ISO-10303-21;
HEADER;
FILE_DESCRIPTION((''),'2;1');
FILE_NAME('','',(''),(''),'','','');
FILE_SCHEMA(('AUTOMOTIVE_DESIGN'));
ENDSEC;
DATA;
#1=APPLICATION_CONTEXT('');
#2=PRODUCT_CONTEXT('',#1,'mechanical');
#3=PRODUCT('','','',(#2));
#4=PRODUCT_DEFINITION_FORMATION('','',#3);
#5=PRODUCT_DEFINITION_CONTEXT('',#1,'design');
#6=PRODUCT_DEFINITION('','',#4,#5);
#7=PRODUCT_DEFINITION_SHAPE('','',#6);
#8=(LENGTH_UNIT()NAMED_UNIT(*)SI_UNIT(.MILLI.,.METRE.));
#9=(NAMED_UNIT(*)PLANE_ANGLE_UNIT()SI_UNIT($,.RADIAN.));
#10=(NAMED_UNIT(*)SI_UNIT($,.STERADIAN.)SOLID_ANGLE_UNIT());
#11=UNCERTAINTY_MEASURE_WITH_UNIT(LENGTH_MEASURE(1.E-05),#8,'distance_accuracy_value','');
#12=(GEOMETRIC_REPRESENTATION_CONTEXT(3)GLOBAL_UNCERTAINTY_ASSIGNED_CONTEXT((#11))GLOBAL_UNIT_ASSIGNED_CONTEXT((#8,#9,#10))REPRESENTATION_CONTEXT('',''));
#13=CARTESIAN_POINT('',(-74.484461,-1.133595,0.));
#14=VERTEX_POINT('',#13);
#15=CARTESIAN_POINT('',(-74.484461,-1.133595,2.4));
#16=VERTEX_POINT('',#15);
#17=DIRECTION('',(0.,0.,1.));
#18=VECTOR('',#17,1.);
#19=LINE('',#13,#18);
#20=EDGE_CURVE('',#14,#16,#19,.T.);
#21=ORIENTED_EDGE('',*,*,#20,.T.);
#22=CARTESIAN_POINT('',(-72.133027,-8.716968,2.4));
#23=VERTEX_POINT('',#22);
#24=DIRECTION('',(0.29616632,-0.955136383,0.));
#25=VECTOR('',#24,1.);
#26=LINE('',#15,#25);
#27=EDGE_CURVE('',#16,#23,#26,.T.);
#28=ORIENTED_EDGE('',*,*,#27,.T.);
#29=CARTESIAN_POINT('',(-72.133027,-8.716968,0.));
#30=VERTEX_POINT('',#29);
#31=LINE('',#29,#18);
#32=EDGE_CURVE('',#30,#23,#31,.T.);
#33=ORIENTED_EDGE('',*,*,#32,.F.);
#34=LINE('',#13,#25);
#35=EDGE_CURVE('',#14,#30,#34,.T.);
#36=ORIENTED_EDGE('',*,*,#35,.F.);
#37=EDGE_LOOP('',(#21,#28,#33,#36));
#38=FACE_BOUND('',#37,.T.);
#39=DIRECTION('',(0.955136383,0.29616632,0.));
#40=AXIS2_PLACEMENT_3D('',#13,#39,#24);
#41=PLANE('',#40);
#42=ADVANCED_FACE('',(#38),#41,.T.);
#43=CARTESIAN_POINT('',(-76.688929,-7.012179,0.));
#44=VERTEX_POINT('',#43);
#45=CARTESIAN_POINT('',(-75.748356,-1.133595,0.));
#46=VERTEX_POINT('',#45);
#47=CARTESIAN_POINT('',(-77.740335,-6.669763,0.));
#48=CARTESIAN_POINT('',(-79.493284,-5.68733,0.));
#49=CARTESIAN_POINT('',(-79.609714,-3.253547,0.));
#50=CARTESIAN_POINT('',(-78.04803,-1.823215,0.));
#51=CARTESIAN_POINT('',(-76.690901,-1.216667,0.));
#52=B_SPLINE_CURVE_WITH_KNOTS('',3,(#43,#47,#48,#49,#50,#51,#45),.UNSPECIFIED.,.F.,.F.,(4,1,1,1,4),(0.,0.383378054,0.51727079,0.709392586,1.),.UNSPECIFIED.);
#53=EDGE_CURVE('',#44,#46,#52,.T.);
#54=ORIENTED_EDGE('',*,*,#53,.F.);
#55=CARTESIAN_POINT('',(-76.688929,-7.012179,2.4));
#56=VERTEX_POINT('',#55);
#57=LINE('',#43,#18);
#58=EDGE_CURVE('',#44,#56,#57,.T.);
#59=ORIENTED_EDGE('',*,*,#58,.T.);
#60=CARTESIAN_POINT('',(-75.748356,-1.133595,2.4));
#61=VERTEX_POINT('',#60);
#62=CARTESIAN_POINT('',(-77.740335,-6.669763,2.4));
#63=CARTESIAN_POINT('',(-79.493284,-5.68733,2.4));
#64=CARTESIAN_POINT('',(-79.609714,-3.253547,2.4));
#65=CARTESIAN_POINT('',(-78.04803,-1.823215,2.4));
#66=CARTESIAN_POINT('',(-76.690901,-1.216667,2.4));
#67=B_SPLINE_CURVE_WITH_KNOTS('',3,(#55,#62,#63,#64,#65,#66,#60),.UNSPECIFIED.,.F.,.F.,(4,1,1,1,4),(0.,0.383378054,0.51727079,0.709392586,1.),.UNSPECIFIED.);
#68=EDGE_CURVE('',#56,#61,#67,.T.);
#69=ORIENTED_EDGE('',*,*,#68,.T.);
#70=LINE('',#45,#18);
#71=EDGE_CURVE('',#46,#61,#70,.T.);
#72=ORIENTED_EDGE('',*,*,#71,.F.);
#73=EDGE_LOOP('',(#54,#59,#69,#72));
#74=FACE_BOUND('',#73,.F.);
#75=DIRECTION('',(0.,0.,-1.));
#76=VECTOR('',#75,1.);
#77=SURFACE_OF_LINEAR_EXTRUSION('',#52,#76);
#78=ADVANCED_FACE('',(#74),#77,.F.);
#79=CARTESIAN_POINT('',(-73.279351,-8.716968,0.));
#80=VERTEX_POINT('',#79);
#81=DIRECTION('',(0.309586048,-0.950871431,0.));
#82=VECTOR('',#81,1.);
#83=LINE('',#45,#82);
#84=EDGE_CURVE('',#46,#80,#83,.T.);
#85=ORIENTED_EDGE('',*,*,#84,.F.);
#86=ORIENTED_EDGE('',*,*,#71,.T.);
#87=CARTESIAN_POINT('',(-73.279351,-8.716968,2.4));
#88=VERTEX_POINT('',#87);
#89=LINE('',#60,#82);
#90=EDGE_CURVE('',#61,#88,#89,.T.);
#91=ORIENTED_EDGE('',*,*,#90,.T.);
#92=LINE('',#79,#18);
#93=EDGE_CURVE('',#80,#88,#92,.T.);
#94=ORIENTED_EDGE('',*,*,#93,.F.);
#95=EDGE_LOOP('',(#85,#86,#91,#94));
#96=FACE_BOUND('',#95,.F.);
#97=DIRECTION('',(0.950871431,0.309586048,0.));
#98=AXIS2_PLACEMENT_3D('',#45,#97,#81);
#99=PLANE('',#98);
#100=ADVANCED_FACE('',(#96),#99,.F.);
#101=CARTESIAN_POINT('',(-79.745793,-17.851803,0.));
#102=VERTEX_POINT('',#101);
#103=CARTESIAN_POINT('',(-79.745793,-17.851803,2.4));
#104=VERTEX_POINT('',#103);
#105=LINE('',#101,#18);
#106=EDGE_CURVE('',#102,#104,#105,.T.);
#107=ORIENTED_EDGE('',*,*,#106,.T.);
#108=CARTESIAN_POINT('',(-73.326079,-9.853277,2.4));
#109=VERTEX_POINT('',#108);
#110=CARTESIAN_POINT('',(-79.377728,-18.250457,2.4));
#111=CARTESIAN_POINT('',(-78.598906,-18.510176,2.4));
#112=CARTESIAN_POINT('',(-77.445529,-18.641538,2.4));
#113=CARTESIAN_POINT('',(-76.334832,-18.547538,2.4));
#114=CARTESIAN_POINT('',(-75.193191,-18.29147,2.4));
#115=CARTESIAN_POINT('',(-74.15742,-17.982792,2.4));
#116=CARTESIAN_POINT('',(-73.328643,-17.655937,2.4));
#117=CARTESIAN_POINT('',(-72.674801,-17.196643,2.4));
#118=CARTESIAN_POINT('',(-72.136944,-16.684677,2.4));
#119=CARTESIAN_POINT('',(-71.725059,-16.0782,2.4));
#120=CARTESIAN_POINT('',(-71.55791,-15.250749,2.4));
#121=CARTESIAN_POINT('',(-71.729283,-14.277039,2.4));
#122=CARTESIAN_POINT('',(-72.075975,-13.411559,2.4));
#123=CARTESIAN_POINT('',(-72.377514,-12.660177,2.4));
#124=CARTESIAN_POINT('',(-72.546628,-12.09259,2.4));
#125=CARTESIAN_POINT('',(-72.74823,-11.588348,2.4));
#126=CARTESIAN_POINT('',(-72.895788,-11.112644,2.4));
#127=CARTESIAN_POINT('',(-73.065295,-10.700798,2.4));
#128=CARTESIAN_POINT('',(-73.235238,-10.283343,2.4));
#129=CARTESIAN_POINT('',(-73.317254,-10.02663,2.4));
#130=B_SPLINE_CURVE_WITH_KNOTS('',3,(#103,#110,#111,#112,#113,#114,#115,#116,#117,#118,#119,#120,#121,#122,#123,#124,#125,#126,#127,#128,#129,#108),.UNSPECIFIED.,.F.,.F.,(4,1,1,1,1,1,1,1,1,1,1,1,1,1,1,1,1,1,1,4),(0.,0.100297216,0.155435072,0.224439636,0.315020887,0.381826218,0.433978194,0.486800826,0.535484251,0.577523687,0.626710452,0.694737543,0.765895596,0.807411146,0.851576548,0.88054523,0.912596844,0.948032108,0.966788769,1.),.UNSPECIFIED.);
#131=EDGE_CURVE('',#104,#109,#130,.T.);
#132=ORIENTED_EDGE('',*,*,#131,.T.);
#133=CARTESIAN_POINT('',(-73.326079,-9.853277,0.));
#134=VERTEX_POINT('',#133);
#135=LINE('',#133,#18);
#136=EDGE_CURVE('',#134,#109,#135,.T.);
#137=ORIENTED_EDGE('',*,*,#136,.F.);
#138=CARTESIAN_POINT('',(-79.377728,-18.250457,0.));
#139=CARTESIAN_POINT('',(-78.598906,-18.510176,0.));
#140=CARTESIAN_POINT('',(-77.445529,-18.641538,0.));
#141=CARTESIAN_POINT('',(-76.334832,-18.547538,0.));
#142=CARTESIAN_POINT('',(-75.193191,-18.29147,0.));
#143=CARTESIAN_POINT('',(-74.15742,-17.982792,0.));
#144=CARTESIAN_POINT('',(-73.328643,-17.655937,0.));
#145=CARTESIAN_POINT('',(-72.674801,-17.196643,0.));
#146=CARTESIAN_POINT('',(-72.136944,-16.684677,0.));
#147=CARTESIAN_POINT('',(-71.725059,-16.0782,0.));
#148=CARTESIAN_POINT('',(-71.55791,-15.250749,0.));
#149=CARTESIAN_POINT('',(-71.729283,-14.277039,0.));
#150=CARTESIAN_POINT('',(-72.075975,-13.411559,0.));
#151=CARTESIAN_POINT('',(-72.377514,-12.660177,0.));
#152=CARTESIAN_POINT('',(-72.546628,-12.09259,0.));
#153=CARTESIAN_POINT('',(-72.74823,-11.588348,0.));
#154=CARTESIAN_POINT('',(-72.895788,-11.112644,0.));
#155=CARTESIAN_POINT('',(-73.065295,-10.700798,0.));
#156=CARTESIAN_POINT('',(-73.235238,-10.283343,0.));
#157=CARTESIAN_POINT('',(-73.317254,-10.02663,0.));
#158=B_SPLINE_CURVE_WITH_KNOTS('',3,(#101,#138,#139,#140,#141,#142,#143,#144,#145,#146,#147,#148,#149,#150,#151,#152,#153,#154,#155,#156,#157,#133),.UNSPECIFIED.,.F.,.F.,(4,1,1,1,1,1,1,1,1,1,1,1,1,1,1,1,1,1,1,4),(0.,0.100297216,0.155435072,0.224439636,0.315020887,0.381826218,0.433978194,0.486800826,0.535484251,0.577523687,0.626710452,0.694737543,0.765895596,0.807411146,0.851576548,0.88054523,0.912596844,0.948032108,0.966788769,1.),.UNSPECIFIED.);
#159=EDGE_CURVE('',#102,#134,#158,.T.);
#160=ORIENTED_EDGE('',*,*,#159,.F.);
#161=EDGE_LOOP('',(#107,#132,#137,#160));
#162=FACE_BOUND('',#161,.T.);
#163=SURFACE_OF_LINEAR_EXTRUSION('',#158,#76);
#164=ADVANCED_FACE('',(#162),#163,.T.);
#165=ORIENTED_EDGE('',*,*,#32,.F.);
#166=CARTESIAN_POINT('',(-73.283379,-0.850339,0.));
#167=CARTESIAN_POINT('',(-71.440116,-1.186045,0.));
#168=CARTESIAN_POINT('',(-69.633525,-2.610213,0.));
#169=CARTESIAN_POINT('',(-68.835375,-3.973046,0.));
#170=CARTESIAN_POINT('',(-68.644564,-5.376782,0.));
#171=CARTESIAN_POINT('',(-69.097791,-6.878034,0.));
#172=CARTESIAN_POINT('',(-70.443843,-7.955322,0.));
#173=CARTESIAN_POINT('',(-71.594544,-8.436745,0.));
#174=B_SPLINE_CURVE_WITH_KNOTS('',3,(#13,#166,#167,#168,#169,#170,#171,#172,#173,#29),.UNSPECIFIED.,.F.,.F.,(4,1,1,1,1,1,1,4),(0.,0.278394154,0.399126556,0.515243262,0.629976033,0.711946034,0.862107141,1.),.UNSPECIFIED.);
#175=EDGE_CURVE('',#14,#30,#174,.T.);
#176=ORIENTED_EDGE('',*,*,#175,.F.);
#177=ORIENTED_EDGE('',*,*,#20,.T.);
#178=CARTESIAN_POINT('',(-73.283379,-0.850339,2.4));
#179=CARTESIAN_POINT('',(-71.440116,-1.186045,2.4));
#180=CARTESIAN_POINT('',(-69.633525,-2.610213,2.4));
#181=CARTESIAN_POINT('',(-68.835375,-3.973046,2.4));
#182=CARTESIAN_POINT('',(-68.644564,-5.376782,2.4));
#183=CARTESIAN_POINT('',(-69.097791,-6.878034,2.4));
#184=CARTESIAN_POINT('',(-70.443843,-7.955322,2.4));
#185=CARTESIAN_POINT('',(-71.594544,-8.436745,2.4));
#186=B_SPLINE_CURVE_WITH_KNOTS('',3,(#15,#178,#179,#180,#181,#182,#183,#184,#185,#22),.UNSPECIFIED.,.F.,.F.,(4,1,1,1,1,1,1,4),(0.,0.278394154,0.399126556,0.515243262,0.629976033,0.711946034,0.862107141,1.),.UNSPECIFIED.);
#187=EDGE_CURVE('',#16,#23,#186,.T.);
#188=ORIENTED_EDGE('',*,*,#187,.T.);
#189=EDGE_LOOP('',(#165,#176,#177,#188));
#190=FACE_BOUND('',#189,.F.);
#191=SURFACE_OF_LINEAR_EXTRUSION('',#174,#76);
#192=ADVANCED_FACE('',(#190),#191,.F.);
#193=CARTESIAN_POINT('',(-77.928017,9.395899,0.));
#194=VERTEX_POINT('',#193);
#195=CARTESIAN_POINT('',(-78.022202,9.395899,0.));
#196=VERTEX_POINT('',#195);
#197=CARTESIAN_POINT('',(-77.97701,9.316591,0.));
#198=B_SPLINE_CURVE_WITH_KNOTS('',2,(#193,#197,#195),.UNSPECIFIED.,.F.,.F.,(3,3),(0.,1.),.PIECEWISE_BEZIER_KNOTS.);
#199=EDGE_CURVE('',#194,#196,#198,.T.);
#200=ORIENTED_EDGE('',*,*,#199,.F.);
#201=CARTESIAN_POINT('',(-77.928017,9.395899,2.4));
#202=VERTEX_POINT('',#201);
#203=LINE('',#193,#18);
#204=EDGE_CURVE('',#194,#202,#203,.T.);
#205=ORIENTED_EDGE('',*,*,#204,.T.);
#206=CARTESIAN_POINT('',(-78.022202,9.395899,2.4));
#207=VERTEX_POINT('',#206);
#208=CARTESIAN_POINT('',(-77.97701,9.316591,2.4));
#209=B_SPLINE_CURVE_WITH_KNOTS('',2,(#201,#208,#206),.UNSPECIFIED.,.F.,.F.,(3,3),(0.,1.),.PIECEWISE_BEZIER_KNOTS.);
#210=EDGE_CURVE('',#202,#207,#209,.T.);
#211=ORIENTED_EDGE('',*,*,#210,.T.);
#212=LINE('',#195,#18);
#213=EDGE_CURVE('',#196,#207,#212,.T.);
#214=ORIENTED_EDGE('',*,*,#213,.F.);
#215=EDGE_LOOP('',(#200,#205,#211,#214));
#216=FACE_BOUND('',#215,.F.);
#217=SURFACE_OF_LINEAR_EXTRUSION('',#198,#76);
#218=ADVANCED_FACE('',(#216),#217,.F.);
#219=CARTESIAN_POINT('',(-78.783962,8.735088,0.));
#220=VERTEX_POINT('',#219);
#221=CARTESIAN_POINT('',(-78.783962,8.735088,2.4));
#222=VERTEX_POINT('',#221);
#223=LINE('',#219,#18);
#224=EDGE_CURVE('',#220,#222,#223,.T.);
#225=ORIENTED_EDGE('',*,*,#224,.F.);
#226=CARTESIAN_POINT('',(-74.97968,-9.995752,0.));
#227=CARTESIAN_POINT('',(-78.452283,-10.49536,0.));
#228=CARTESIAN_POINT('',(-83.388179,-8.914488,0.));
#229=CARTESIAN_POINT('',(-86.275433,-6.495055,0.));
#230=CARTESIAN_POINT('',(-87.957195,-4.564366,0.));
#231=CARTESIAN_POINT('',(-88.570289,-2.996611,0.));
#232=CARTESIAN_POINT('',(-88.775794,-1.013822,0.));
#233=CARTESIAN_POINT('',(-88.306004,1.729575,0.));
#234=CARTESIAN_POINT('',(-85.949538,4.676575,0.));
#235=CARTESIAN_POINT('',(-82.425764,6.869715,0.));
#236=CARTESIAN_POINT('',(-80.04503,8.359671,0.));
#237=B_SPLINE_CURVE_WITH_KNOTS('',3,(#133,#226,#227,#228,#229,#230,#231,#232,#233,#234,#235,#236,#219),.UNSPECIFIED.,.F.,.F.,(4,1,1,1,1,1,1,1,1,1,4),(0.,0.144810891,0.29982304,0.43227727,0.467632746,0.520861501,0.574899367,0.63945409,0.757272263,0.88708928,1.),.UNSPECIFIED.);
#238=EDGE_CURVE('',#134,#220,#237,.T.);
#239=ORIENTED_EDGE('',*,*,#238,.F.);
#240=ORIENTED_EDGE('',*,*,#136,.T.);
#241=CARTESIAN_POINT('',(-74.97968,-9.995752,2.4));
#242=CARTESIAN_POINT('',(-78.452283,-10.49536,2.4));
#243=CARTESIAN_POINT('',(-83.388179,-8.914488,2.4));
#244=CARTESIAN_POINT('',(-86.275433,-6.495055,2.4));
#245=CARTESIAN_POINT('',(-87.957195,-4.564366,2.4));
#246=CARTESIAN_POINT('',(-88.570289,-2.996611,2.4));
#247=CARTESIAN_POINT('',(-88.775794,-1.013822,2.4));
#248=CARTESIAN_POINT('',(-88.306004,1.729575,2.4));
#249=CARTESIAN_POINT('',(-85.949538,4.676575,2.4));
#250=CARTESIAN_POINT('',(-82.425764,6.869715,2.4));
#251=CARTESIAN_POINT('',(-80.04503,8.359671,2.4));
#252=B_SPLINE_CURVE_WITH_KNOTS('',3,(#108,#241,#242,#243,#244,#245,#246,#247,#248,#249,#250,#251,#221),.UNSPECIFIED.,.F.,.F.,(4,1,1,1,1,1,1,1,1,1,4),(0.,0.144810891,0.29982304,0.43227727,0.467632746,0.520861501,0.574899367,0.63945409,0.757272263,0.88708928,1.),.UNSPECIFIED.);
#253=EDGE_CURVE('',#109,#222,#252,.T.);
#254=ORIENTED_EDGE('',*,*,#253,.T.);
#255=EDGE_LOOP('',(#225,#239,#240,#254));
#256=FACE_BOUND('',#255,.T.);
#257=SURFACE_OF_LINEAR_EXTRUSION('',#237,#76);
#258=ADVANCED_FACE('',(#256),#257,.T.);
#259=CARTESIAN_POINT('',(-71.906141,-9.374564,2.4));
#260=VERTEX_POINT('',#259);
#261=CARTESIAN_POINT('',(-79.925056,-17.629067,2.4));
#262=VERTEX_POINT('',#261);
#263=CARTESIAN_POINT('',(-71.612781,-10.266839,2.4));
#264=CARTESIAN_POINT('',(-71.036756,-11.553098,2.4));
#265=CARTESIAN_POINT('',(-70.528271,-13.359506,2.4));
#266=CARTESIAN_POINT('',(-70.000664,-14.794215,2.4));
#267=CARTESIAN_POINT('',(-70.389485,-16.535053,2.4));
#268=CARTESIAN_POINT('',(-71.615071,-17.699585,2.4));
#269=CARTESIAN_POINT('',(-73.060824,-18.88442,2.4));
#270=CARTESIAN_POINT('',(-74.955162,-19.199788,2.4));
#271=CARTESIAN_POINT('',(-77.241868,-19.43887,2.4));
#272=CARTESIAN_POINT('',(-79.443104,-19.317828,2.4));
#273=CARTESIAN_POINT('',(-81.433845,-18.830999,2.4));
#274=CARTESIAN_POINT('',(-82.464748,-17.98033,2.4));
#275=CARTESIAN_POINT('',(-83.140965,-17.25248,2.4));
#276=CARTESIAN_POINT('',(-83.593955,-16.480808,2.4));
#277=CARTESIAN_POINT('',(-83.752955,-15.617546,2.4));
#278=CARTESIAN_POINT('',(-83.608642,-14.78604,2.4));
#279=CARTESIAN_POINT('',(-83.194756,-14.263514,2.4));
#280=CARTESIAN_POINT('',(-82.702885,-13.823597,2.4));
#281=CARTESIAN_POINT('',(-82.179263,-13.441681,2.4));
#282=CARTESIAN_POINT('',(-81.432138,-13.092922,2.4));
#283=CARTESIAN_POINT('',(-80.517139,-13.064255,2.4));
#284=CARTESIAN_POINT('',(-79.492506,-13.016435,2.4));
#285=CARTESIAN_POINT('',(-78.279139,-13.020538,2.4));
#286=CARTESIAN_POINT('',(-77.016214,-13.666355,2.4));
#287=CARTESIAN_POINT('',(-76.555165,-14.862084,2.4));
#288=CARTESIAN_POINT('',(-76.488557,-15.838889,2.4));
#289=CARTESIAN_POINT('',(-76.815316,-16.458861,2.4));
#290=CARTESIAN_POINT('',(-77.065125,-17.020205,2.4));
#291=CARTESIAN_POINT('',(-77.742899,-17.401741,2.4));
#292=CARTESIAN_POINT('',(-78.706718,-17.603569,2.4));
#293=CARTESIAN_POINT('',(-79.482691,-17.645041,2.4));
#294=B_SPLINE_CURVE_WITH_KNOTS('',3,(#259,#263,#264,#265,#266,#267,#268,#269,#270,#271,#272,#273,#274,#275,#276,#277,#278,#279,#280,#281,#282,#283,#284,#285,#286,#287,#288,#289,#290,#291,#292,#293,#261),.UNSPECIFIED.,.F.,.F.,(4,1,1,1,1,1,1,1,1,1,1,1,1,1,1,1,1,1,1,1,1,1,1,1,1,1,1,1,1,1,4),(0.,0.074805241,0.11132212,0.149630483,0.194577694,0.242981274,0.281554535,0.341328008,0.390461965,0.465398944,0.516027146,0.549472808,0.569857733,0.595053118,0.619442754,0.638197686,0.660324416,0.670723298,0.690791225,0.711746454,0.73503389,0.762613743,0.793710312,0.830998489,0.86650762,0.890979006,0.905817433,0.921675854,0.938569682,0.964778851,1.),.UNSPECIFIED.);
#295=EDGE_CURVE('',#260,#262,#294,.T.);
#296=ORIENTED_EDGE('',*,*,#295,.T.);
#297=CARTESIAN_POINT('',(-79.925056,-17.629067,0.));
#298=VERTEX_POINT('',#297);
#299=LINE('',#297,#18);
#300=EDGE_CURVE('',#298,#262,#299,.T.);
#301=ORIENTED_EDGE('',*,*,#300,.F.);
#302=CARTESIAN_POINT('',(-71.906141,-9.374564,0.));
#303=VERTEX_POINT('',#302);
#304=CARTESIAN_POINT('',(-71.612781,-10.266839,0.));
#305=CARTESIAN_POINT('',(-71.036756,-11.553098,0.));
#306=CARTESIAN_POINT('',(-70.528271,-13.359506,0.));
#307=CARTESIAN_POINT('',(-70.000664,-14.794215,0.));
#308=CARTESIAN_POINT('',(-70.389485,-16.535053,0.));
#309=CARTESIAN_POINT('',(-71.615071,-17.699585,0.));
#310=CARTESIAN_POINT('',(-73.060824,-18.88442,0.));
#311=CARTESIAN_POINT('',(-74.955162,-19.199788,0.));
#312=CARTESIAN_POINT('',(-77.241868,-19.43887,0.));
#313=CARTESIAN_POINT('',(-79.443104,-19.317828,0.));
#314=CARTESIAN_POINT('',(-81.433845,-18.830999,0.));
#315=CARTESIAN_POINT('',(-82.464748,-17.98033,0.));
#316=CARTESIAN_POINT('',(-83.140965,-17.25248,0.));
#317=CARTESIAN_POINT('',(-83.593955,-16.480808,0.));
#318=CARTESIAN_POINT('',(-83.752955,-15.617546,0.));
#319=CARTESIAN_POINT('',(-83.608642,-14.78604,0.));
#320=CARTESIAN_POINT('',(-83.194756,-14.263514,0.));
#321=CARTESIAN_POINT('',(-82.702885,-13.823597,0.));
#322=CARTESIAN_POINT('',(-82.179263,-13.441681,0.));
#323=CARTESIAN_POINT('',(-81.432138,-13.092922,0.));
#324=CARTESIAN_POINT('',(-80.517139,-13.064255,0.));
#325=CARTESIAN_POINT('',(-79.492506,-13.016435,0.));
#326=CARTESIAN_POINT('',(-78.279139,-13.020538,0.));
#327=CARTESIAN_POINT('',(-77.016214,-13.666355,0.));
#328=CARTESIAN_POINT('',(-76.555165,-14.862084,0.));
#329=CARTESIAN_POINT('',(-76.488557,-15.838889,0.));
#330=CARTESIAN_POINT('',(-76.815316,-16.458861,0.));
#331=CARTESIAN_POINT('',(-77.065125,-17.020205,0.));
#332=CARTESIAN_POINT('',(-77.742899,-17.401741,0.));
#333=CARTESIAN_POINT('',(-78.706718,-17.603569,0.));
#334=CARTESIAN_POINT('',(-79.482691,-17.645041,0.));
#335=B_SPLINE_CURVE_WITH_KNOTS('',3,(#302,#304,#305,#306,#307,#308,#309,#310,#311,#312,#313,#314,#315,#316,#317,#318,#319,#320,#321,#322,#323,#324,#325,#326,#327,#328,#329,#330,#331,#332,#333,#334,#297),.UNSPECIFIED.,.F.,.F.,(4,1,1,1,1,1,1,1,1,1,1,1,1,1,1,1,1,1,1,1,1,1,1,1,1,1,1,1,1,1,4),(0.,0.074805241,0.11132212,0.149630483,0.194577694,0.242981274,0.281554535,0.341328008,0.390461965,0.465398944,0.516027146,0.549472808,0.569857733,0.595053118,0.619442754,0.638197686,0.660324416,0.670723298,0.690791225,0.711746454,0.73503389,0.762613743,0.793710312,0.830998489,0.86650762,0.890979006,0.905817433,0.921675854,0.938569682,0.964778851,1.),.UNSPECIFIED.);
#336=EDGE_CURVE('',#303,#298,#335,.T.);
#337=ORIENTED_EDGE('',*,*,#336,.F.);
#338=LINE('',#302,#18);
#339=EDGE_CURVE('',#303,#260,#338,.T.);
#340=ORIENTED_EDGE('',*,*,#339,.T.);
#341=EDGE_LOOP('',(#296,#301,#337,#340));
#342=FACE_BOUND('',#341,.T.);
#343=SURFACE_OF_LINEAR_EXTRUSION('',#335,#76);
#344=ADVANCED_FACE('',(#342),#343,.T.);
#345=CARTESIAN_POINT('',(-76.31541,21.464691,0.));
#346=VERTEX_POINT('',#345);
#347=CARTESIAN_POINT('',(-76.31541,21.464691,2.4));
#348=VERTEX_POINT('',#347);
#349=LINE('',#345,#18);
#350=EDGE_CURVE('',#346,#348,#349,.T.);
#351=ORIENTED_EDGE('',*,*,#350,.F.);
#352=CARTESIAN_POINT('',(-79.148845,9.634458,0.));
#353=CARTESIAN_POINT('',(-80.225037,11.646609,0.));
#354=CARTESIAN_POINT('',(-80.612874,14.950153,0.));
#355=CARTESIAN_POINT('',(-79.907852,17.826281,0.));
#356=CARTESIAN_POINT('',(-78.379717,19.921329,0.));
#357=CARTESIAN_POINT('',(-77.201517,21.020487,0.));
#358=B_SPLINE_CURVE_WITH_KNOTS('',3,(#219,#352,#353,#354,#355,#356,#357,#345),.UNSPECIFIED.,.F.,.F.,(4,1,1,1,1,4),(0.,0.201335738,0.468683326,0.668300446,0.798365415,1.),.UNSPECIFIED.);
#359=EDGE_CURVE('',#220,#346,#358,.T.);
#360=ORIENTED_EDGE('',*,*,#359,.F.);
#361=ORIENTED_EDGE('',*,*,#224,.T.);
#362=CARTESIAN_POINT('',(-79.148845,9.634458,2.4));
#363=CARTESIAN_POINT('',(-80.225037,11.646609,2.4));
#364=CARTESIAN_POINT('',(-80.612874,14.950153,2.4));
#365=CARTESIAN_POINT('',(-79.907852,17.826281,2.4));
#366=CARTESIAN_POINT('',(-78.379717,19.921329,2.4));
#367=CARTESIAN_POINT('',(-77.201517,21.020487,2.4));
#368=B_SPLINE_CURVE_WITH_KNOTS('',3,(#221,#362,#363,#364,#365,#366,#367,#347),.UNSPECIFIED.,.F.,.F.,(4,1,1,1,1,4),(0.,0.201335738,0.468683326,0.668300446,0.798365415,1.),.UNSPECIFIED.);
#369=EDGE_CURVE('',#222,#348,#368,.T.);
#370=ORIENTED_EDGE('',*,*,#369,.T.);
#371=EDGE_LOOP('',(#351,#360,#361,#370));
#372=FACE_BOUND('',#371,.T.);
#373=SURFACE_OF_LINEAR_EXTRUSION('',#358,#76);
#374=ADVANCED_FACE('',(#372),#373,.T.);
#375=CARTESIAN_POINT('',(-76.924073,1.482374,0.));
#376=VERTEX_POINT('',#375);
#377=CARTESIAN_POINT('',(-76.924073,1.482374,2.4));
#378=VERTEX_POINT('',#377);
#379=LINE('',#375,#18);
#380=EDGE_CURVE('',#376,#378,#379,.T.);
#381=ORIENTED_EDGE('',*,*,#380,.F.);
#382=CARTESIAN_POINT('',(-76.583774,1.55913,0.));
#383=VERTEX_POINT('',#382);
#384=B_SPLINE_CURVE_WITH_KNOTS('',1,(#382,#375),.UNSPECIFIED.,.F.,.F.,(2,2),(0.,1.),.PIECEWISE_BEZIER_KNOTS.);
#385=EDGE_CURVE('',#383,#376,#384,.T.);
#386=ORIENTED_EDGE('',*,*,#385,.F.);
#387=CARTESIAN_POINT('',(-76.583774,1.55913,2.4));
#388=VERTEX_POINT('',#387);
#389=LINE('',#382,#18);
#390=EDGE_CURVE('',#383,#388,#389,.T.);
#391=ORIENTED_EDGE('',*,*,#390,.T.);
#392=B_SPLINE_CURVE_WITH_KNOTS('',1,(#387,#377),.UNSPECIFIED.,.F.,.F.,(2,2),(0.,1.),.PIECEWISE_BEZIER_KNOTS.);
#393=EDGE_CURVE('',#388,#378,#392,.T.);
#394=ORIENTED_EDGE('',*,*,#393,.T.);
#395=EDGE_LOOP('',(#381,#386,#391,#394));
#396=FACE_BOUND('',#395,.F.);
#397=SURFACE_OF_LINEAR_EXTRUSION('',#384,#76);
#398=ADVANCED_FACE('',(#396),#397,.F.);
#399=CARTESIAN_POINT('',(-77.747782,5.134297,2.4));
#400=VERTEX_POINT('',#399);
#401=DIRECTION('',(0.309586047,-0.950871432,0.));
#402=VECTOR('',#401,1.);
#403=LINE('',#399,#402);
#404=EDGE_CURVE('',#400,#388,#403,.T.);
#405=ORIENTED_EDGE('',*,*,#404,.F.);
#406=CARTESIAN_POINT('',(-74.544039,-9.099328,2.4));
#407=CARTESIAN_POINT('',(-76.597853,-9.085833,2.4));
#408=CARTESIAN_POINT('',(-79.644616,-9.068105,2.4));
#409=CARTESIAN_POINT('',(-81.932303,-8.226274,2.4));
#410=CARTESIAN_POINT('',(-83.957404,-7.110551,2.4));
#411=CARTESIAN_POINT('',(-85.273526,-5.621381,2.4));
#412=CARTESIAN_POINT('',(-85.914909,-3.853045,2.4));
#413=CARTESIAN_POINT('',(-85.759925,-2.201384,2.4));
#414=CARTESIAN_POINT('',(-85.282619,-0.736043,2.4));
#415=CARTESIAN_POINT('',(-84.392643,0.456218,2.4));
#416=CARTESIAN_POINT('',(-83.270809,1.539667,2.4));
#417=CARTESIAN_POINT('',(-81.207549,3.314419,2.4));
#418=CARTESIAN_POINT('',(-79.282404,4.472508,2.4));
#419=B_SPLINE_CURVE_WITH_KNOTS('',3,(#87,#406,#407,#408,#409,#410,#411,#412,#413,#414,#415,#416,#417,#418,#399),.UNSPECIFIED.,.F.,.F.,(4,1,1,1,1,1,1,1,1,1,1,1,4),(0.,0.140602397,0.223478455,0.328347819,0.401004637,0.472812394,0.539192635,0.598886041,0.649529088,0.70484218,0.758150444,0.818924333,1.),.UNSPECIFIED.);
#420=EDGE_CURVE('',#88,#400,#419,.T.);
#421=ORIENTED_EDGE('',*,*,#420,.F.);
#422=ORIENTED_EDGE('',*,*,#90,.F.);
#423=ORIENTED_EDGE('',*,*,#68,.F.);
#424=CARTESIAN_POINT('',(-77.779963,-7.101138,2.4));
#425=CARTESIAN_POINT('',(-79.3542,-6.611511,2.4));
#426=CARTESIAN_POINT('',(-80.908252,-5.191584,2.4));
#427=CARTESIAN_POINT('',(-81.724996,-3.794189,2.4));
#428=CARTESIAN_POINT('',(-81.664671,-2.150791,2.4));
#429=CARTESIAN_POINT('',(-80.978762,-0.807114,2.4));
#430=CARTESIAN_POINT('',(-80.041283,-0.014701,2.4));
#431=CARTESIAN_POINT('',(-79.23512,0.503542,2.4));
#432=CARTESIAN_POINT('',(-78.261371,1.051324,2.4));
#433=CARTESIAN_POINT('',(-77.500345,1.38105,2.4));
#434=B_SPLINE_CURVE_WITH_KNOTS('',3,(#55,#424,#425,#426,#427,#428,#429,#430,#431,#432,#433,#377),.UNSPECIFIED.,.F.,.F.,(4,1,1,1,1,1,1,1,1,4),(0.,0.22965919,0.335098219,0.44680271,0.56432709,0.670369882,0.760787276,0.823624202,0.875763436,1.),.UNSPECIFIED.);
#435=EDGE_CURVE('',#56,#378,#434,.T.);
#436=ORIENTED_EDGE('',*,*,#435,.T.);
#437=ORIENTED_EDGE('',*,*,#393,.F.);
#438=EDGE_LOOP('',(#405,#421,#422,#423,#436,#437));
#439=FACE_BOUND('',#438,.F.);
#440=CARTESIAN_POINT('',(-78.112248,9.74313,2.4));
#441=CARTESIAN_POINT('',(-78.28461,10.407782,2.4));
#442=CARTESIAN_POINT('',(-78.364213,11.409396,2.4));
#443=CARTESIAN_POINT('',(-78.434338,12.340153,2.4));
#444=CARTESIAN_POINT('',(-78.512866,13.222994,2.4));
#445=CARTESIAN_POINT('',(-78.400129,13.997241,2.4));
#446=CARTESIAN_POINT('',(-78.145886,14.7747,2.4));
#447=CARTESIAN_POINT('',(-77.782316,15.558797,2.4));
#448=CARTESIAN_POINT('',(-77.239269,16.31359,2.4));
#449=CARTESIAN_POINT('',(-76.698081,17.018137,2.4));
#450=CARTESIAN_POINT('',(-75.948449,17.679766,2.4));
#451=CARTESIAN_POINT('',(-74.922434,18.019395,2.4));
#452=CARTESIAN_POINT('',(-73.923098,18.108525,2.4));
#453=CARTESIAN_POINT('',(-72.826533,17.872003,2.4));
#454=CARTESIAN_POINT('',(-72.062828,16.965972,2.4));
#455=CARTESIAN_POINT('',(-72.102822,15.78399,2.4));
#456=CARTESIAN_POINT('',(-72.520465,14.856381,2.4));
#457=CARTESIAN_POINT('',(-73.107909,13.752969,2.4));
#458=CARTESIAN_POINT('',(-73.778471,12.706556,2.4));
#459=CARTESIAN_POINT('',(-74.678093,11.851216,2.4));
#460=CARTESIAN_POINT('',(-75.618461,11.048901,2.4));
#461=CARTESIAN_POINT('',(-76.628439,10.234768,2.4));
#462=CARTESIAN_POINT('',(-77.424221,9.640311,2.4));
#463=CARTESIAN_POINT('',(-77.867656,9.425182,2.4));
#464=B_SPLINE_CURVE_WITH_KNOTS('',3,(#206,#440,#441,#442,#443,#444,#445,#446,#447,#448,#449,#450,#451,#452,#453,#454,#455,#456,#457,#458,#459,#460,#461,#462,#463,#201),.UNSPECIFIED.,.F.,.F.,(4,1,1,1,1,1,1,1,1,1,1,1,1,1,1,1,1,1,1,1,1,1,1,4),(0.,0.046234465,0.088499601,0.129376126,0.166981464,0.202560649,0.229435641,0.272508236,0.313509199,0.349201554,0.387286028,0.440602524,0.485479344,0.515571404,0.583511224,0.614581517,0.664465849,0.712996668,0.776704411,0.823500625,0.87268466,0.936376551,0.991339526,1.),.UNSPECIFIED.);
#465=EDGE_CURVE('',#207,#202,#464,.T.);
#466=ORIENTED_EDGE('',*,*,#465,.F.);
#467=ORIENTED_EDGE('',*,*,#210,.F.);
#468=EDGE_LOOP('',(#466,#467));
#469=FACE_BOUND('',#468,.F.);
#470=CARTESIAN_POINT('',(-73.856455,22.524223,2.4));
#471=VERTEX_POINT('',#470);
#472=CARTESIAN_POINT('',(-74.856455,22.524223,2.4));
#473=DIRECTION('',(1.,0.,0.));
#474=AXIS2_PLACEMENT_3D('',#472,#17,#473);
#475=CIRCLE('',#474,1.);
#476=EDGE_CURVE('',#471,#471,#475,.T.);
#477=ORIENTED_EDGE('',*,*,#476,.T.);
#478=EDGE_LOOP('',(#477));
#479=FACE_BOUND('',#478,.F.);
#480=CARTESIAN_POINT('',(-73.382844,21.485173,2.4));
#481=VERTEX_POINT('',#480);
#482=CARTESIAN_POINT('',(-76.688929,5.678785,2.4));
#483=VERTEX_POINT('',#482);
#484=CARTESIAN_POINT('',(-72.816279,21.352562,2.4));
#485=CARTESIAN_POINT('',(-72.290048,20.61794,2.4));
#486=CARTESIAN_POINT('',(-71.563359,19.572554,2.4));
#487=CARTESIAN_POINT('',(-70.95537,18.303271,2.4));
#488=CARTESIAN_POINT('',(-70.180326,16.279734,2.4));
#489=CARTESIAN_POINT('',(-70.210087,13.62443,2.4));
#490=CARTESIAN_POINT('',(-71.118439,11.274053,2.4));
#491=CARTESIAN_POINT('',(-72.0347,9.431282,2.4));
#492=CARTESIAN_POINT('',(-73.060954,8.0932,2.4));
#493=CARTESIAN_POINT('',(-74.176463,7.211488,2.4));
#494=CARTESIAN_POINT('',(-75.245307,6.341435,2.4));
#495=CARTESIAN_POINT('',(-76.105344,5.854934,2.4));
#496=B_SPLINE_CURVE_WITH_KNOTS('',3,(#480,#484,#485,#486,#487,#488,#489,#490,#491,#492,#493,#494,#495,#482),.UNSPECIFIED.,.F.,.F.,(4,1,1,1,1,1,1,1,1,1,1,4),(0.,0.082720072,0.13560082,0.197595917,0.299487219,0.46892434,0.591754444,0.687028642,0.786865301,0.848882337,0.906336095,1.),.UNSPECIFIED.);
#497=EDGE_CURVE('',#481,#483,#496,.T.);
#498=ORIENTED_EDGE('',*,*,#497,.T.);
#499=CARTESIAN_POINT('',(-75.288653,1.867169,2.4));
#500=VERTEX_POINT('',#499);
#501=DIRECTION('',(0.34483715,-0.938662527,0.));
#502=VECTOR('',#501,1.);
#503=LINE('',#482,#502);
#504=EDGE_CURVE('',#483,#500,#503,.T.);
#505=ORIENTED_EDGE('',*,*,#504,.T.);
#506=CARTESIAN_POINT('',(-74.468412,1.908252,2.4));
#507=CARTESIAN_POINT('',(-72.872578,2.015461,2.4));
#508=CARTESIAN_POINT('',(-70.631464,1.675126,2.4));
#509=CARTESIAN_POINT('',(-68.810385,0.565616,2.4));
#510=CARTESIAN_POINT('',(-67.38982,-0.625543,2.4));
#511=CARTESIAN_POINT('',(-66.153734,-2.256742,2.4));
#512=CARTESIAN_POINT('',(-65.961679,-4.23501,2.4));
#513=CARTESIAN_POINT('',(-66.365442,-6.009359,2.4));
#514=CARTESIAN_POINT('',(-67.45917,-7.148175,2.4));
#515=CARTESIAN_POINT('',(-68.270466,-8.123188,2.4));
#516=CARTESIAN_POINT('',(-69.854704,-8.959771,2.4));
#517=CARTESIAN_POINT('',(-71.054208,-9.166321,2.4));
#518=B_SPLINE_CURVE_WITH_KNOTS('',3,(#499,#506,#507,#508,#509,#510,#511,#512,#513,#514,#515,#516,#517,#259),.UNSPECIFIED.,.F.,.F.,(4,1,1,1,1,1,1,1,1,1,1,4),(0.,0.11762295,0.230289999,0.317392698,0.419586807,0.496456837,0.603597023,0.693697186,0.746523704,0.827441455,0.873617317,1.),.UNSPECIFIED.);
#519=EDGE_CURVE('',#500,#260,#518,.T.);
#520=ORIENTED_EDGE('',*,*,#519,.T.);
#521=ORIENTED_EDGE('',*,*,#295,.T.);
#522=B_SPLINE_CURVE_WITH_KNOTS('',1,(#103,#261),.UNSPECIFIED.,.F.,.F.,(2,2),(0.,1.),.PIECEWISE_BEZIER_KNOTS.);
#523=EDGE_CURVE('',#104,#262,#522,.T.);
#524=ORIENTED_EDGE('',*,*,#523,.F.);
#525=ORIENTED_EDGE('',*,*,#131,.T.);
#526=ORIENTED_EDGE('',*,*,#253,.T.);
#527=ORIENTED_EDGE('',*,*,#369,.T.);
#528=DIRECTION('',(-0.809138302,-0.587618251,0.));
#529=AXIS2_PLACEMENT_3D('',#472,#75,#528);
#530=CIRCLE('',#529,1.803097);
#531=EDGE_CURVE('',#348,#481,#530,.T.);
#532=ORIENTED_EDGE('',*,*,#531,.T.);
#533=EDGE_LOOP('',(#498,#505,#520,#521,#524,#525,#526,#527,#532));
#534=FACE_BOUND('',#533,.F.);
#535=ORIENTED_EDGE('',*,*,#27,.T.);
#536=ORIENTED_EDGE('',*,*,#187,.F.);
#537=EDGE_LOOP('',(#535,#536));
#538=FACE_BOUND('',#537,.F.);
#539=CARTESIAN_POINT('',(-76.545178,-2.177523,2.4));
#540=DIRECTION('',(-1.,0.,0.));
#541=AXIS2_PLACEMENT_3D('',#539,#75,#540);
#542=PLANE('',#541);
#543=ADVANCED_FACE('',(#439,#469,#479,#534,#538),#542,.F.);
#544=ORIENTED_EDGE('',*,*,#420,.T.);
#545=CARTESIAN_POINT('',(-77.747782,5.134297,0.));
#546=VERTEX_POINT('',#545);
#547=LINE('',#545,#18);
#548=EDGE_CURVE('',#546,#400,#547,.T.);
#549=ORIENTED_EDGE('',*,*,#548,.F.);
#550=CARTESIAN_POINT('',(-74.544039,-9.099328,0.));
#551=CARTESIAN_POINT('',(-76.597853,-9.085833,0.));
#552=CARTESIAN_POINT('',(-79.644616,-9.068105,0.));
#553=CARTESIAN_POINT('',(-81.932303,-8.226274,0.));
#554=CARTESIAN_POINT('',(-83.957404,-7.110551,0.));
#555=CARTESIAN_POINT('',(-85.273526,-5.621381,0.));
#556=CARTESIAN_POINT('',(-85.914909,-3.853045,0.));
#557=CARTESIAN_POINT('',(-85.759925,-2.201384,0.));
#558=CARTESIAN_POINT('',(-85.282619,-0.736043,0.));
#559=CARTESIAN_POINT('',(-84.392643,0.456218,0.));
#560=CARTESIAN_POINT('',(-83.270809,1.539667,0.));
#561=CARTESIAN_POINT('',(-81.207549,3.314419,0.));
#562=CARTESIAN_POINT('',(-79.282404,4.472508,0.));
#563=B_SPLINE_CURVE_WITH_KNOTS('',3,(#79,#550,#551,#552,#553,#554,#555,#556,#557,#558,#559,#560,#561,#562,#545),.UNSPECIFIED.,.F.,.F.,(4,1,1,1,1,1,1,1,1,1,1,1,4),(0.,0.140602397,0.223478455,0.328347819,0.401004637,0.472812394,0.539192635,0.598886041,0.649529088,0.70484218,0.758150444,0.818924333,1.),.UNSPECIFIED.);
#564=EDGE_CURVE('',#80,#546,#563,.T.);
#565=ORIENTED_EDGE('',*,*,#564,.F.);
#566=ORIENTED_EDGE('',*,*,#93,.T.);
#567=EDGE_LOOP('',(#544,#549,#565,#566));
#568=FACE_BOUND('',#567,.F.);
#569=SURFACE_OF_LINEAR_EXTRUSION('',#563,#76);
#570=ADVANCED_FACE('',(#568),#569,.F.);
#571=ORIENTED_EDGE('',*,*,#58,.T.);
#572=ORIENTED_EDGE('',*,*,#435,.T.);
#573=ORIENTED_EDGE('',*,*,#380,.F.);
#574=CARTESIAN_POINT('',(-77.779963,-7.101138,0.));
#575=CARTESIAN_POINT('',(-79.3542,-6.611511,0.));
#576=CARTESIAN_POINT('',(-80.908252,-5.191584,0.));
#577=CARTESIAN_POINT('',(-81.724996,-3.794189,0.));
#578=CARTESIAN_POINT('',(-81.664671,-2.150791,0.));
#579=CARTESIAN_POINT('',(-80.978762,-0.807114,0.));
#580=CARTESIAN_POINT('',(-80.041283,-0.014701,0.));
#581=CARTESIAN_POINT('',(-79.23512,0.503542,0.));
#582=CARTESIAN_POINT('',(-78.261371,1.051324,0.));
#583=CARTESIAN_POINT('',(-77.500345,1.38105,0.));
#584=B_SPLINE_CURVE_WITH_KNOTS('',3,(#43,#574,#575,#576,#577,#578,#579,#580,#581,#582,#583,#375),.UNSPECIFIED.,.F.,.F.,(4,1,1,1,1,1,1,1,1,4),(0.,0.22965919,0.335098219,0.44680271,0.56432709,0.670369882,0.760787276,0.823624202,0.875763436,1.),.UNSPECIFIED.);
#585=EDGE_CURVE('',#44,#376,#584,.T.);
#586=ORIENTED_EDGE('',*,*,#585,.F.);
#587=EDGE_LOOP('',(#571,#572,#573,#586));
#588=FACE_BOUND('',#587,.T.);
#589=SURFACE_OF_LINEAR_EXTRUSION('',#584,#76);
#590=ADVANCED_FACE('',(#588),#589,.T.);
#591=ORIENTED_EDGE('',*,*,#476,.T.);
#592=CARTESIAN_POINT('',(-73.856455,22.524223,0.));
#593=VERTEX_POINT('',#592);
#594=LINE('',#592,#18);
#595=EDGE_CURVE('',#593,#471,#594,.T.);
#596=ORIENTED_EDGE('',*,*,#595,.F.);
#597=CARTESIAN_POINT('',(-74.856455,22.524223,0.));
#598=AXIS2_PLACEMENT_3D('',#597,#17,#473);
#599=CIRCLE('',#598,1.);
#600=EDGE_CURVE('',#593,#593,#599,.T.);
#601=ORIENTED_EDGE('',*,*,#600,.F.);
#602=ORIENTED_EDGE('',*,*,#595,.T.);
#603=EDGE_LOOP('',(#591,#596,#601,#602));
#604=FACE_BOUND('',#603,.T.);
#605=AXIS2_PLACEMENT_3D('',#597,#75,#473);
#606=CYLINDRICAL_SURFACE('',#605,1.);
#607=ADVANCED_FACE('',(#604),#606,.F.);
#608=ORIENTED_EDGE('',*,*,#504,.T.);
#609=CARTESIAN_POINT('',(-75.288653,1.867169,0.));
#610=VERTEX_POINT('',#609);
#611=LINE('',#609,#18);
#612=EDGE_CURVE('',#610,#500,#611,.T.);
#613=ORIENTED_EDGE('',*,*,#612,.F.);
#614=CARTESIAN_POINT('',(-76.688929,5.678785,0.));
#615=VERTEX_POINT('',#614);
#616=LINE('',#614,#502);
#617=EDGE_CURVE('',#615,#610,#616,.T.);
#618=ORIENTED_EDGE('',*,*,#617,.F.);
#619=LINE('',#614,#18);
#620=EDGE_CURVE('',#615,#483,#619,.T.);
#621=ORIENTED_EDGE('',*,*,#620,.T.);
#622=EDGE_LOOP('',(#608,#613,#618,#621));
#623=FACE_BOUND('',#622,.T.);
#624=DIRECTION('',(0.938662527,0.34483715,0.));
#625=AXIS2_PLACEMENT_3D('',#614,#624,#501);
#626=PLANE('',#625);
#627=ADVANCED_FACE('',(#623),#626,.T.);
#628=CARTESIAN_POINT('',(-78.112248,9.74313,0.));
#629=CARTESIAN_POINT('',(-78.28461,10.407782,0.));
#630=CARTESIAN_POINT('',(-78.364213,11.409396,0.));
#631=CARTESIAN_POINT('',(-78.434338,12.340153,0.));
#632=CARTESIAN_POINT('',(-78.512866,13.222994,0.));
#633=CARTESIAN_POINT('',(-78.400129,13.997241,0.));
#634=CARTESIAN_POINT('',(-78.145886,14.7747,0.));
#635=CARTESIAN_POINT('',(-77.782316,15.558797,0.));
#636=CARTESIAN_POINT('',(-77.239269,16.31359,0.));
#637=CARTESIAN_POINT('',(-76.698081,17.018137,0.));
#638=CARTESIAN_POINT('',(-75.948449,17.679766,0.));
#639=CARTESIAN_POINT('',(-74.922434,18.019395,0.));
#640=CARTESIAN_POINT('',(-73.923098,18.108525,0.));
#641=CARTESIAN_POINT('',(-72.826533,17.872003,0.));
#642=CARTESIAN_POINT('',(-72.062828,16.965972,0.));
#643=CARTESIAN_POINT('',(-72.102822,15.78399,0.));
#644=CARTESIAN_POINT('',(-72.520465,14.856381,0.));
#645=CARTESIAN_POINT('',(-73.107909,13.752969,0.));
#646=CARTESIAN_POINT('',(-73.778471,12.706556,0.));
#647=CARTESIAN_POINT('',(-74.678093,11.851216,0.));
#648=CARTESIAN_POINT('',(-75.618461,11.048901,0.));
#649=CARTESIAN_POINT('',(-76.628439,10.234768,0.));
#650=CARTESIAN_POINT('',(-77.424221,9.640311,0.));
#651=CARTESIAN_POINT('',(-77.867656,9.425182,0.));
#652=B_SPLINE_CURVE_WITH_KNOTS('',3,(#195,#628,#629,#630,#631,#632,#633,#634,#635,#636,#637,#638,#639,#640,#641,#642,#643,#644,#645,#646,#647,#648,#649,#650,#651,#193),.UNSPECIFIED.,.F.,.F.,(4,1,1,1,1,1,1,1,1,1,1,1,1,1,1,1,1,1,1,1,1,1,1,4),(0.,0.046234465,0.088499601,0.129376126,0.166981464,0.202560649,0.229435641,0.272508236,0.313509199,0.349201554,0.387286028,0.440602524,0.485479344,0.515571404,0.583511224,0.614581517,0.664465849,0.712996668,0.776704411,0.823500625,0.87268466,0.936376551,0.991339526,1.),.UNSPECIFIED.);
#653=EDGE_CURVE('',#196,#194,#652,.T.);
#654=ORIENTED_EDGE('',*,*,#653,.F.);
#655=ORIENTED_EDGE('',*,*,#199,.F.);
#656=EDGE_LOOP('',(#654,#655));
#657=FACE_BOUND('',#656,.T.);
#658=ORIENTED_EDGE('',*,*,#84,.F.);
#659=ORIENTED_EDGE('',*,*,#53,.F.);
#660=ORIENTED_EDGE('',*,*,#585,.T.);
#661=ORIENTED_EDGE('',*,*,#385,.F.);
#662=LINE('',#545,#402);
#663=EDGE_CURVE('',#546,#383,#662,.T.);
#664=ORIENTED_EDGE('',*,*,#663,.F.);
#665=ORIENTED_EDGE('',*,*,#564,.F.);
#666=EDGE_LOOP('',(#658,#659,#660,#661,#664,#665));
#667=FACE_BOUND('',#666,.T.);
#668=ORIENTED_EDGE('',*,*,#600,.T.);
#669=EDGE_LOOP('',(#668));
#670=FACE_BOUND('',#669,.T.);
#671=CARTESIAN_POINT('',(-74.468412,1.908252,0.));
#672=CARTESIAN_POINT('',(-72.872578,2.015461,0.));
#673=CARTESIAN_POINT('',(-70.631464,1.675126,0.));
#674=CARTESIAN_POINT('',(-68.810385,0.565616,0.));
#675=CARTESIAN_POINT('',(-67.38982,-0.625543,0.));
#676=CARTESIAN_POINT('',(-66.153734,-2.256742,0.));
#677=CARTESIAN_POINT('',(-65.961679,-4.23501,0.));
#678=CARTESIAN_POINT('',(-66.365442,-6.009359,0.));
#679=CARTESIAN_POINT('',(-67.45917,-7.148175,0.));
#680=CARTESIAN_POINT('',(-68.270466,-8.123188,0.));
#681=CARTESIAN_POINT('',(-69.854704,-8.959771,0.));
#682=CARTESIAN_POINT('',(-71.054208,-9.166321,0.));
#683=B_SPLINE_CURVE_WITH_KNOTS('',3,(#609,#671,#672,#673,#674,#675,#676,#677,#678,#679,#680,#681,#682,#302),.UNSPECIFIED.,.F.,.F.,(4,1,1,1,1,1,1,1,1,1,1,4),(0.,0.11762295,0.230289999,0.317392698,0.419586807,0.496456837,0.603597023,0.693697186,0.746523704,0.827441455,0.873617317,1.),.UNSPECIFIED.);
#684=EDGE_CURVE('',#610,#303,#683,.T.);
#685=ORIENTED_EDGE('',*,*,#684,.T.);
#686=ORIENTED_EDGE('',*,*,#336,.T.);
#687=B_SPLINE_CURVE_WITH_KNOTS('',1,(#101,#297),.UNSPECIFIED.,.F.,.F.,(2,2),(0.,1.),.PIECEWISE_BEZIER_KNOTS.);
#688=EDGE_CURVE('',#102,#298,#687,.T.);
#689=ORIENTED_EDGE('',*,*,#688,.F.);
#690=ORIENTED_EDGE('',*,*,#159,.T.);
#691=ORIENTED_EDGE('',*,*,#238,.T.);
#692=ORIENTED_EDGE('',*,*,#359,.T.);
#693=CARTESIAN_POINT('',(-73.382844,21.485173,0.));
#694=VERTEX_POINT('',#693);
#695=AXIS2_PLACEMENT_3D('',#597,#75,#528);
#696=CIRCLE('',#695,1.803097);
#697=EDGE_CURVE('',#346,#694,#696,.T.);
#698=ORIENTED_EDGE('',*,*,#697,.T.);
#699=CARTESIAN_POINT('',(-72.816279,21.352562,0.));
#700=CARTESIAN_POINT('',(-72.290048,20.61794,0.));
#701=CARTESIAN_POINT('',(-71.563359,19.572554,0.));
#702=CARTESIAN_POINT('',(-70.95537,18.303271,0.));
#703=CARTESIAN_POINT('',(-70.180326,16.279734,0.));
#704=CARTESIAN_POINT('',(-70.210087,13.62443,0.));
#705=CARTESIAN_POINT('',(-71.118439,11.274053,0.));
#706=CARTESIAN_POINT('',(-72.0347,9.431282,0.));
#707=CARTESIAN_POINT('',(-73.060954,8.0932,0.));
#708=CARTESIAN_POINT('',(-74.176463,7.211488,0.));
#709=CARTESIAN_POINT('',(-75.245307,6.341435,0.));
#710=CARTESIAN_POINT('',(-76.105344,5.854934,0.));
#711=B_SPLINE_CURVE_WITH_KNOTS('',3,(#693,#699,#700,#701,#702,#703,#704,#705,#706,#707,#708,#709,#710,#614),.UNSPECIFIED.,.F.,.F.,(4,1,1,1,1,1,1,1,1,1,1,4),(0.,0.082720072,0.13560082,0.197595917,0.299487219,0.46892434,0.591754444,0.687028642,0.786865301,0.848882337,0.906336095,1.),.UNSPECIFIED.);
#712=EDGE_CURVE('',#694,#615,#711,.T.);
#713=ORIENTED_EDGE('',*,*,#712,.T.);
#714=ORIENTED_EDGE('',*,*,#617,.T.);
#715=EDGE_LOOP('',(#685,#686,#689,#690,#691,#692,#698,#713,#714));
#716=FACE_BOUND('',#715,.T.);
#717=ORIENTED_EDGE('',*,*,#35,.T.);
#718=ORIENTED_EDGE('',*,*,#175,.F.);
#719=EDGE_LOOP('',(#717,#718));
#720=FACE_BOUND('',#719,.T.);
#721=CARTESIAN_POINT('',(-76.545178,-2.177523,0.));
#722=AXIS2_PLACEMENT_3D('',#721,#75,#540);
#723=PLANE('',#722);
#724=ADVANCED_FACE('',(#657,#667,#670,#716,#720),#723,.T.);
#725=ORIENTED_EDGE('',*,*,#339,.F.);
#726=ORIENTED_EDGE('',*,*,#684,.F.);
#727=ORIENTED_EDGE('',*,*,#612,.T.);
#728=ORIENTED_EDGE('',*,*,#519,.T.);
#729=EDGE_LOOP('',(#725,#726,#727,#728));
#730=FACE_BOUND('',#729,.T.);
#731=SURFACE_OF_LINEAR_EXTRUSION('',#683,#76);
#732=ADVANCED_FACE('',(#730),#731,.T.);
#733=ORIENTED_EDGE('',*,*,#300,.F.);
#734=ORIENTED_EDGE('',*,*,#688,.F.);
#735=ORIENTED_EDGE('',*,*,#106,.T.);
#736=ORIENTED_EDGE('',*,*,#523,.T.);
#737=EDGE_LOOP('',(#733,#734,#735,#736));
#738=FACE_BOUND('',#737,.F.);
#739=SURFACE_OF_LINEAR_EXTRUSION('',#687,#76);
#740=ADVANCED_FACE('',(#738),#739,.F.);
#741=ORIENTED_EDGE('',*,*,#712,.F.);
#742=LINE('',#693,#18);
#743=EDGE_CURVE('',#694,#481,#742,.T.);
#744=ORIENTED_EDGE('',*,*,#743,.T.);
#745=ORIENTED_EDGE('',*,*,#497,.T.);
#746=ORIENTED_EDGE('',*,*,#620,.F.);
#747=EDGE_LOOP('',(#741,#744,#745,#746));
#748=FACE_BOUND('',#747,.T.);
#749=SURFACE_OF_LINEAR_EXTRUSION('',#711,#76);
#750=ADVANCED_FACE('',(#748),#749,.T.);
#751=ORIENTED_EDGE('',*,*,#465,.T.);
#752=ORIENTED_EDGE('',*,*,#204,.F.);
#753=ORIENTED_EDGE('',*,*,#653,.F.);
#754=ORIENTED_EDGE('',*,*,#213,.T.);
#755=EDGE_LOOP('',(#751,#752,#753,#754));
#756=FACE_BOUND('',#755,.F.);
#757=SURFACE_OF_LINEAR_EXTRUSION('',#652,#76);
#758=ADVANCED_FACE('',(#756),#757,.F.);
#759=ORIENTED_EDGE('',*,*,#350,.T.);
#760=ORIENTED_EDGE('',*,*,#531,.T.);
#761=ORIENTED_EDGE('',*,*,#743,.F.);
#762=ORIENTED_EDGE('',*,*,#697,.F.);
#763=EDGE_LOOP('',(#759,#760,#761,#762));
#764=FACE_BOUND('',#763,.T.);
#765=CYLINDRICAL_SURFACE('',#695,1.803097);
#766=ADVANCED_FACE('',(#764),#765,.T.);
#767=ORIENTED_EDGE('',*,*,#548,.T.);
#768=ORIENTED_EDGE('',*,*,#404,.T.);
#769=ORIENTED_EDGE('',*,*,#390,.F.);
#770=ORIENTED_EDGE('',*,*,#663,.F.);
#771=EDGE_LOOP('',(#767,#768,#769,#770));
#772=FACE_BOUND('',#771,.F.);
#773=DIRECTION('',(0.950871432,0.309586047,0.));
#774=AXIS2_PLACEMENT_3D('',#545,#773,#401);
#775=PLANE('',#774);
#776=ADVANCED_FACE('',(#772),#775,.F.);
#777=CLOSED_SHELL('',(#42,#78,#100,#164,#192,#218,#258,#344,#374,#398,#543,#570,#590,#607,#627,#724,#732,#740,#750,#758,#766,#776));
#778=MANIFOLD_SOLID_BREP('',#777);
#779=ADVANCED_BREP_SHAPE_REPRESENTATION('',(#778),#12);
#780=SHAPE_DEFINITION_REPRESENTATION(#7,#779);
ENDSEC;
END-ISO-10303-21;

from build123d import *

# Parameters (mm, degrees)
CROQUIS1_R              = 1
SALIENTE_EXTRUIR1_DEPTH = 2.4


with BuildPart() as part:
    # Croquis1 → Saliente-Extruir1 (new body)
    with BuildSketch(Plane.XY):
        with BuildLine():
            add(Edge.make_bspline(
                [(-73.382843904, 21.485172649), (-72.816279322, 21.352562277), (-72.290048161, 20.617939926), (-71.563359458, 19.572554368), (-70.955369846, 18.303271377), (-70.180325761, 16.279733813), (-70.210087208, 13.6244299), (-71.118438702, 11.274052597), (-72.034700283, 9.43128208), (-73.060953827, 8.093199889), (-74.176463418, 7.211487575), (-75.245307097, 6.341435028), (-76.105343924, 5.854934057), (-76.688929455, 5.678784709)],
                knots=[0, 0, 0, 0, 0.082720072, 0.13560082, 0.197595917, 0.299487219, 0.46892434, 0.591754444, 0.687028642, 0.786865301, 0.848882337, 0.906336095, 1, 1, 1, 1], degree=3))
            Line((-76.688929455, 5.678784709), (-75.288653219, 1.867168619))
            add(Edge.make_bspline(
                [(-75.288653219, 1.867168619), (-74.468411952, 1.908252334), (-72.872577878, 2.015461097), (-70.631463745, 1.675125729), (-68.810384606, 0.565616098), (-67.389820174, -0.62554349), (-66.153734293, -2.256742458), (-65.96167945, -4.235010195), (-66.365441771, -6.009358939), (-67.459170254, -7.148174835), (-68.270466433, -8.123187694), (-69.854703917, -8.959771389), (-71.054207735, -9.166320913), (-71.906140878, -9.374564164)],
                knots=[0, 0, 0, 0, 0.11762295, 0.230289999, 0.317392698, 0.419586807, 0.496456837, 0.603597023, 0.693697186, 0.746523704, 0.827441455, 0.873617317, 1, 1, 1, 1], degree=3))
            add(Edge.make_bspline(
                [(-71.906140878, -9.374564164), (-71.61278094, -10.266839308), (-71.036756395, -11.553098269), (-70.528271485, -13.35950605), (-70.000664218, -14.794214547), (-70.38948534, -16.535052776), (-71.615071455, -17.699585086), (-73.060823598, -18.884419966), (-74.955161604, -19.19978755), (-77.241867683, -19.438869557), (-79.443104395, -19.317828204), (-81.433845047, -18.830999441), (-82.464748145, -17.980329563), (-83.140965101, -17.252480478), (-83.593955092, -16.480808011), (-83.752954974, -15.617546025), (-83.608641776, -14.78603997), (-83.194756323, -14.263514026), (-82.702884853, -13.823597136), (-82.179262793, -13.441681166), (-81.432137939, -13.092921965), (-80.517138878, -13.064254835), (-79.492506239, -13.016435402), (-78.279139352, -13.020538301), (-77.016213715, -13.666355282), (-76.555165276, -14.862084339), (-76.488557331, -15.83888893), (-76.815315899, -16.458860603), (-77.065125243, -17.020204619), (-77.742898732, -17.401740743), (-78.706718276, -17.603569236), (-79.482690885, -17.645040657), (-79.925056233, -17.629067046)],
                knots=[0, 0, 0, 0, 0.074805241, 0.11132212, 0.149630483, 0.194577694, 0.242981274, 0.281554535, 0.341328008, 0.390461965, 0.465398944, 0.516027146, 0.549472808, 0.569857733, 0.595053118, 0.619442754, 0.638197686, 0.660324416, 0.670723298, 0.690791225, 0.711746454, 0.73503389, 0.762613743, 0.793710312, 0.830998489, 0.86650762, 0.890979006, 0.905817433, 0.921675854, 0.938569682, 0.964778851, 1, 1, 1, 1], degree=3))
            add(Edge.make_bspline(
                [(-79.745792871, -17.851802825), (-79.925056233, -17.629067046)],
                knots=[0, 0, 1, 1], degree=1))
            add(Edge.make_bspline(
                [(-79.745792871, -17.851802825), (-79.377728082, -18.250457197), (-78.598905688, -18.510175961), (-77.445529422, -18.641537901), (-76.334832164, -18.54753779), (-75.193190702, -18.291470417), (-74.157420098, -17.982791531), (-73.328642935, -17.655936573), (-72.674800508, -17.19664297), (-72.136943705, -16.684677178), (-71.725059461, -16.078199587), (-71.557910168, -15.250749341), (-71.729283252, -14.277038523), (-72.075975491, -13.411558538), (-72.37751376, -12.660176729), (-72.546628338, -12.092589849), (-72.748229841, -11.588348302), (-72.895787934, -11.112644121), (-73.065295019, -10.700797712), (-73.235237824, -10.283342723), (-73.317254276, -10.026629889), (-73.326078886, -9.853276729)],
                knots=[0, 0, 0, 0, 0.100297216, 0.155435072, 0.224439636, 0.315020887, 0.381826218, 0.433978194, 0.486800826, 0.535484251, 0.577523687, 0.626710452, 0.694737543, 0.765895596, 0.807411146, 0.851576548, 0.88054523, 0.912596844, 0.948032108, 0.966788769, 1, 1, 1, 1], degree=3))
            add(Edge.make_bspline(
                [(-73.326078886, -9.853276729), (-74.979679959, -9.995751786), (-78.452282633, -10.49535985), (-83.388178533, -8.914488142), (-86.275432814, -6.495055205), (-87.957194856, -4.564365563), (-88.570288982, -2.996611158), (-88.775793899, -1.013821722), (-88.306004497, 1.729575325), (-85.949537881, 4.676575), (-82.425763739, 6.869714587), (-80.045029758, 8.359671299), (-78.783962186, 8.735087678)],
                knots=[0, 0, 0, 0, 0.144810891, 0.29982304, 0.43227727, 0.467632746, 0.520861501, 0.574899367, 0.63945409, 0.757272263, 0.88708928, 1, 1, 1, 1], degree=3))
            add(Edge.make_bspline(
                [(-78.783962186, 8.735087678), (-79.148845445, 9.634457766), (-80.225036896, 11.646609291), (-80.612874405, 14.950152713), (-79.907852199, 17.82628115), (-78.379717416, 19.921328754), (-77.201516961, 21.020487171), (-76.3154098, 21.464690957)],
                knots=[0, 0, 0, 0, 0.201335738, 0.468683326, 0.668300446, 0.798365415, 1, 1, 1, 1], degree=3))
            ThreePointArc((-76.3154098, 21.464690957), (-74.869048258, 24.327275938), (-73.382843904, 21.485172649))
        make_face()
        with Locations((-74.856455338, 22.524223385)):
            Circle(CROQUIS1_R, mode=Mode.SUBTRACT)
        with BuildLine():
            Line((-74.484460646, -1.133595475), (-72.133027249, -8.716968179))
            add(Edge.make_bspline(
                [(-74.484460646, -1.133595475), (-73.283378869, -0.850339229), (-71.440115738, -1.186045151), (-69.63352513, -2.610213082), (-68.835374903, -3.973046003), (-68.644563627, -5.376781633), (-69.097791243, -6.878034458), (-70.443842904, -7.955321849), (-71.594543517, -8.436745129), (-72.133027249, -8.716968179)],
                knots=[0, 0, 0, 0, 0.278394154, 0.399126556, 0.515243262, 0.629976033, 0.711946034, 0.862107141, 1, 1, 1, 1], degree=3))
        make_face(mode=Mode.SUBTRACT)
        with BuildLine():
            add(Edge.make_bspline(
                [(-77.928016672, 9.39589872), (-77.977009898, 9.316591026), (-78.022202288, 9.39589872)],
                knots=[0, 0, 0, 1, 1, 1], degree=2))
            add(Edge.make_bspline(
                [(-78.022202288, 9.39589872), (-78.112248491, 9.743130089), (-78.284610236, 10.407782258), (-78.36421323, 11.409395561), (-78.43433762, 12.340152669), (-78.512865884, 13.222993811), (-78.400129242, 13.997240727), (-78.145886099, 14.774699767), (-77.782315961, 15.558796545), (-77.239268592, 16.313589804), (-76.698081348, 17.018136895), (-75.948448577, 17.679765585), (-74.922434231, 18.019394979), (-73.923097777, 18.108525469), (-72.826532687, 17.872003144), (-72.062827891, 16.965972459), (-72.102821748, 15.783989767), (-72.52046451, 14.856380567), (-73.10790887, 13.752968837), (-73.778471189, 12.706556273), (-74.678093213, 11.851215915), (-75.618461258, 11.048901475), (-76.628439152, 10.234767882), (-77.424220679, 9.64031082), (-77.86765592, 9.425182197), (-77.928016672, 9.39589872)],
                knots=[0, 0, 0, 0, 0.046234465, 0.088499601, 0.129376126, 0.166981464, 0.202560649, 0.229435641, 0.272508236, 0.313509199, 0.349201554, 0.387286028, 0.440602524, 0.485479344, 0.515571404, 0.583511224, 0.614581517, 0.664465849, 0.712996668, 0.776704411, 0.823500625, 0.87268466, 0.936376551, 0.991339526, 1, 1, 1, 1], degree=3))
        make_face(mode=Mode.SUBTRACT)
        with BuildLine():
            Line((-75.748356097, -1.133595475), (-73.27935103, -8.716968179))
            add(Edge.make_bspline(
                [(-73.27935103, -8.716968179), (-74.54403941, -9.099328125), (-76.597852728, -9.085833404), (-79.644615755, -9.068104931), (-81.932302943, -8.226273805), (-83.957404242, -7.110551081), (-85.273526187, -5.621380732), (-85.914909067, -3.853044747), (-85.759925302, -2.201384209), (-85.282619327, -0.736042917), (-84.392643233, 0.456217849), (-83.27080941, 1.539666913), (-81.207549469, 3.314419204), (-79.282403907, 4.472508042), (-77.747782265, 5.134297209)],
                knots=[0, 0, 0, 0, 0.140602397, 0.223478455, 0.328347819, 0.401004637, 0.472812394, 0.539192635, 0.598886041, 0.649529088, 0.70484218, 0.758150444, 0.818924333, 1, 1, 1, 1], degree=3))
            Line((-77.747782265, 5.134297209), (-76.583774396, 1.559130182))
            add(Edge.make_bspline(
                [(-76.583774396, 1.559130182), (-76.924072795, 1.482374179)],
                knots=[0, 0, 1, 1], degree=1))
            add(Edge.make_bspline(
                [(-76.688929455, -7.012178967), (-77.779962606, -7.101137668), (-79.354199759, -6.611511351), (-80.90825158, -5.19158372), (-81.724995865, -3.79418853), (-81.664670946, -2.150791159), (-80.978762427, -0.807113786), (-80.041282643, -0.014701178), (-79.235120023, 0.503541817), (-78.26137141, 1.051323643), (-77.500345123, 1.381049705), (-76.924072795, 1.482374179)],
                knots=[0, 0, 0, 0, 0.22965919, 0.335098219, 0.44680271, 0.56432709, 0.670369882, 0.760787276, 0.823624202, 0.875763436, 1, 1, 1, 1], degree=3))
            add(Edge.make_bspline(
                [(-76.688929455, -7.012178967), (-77.740334836, -6.669763356), (-79.493284206, -5.687330151), (-79.609713646, -3.253547132), (-78.048029923, -1.823215334), (-76.690901104, -1.21666721), (-75.748356097, -1.133595475)],
                knots=[0, 0, 0, 0, 0.383378054, 0.51727079, 0.709392586, 1, 1, 1, 1], degree=3))
        make_face(mode=Mode.SUBTRACT)
    extrude(amount=SALIENTE_EXTRUIR1_DEPTH)


solid = part.part
